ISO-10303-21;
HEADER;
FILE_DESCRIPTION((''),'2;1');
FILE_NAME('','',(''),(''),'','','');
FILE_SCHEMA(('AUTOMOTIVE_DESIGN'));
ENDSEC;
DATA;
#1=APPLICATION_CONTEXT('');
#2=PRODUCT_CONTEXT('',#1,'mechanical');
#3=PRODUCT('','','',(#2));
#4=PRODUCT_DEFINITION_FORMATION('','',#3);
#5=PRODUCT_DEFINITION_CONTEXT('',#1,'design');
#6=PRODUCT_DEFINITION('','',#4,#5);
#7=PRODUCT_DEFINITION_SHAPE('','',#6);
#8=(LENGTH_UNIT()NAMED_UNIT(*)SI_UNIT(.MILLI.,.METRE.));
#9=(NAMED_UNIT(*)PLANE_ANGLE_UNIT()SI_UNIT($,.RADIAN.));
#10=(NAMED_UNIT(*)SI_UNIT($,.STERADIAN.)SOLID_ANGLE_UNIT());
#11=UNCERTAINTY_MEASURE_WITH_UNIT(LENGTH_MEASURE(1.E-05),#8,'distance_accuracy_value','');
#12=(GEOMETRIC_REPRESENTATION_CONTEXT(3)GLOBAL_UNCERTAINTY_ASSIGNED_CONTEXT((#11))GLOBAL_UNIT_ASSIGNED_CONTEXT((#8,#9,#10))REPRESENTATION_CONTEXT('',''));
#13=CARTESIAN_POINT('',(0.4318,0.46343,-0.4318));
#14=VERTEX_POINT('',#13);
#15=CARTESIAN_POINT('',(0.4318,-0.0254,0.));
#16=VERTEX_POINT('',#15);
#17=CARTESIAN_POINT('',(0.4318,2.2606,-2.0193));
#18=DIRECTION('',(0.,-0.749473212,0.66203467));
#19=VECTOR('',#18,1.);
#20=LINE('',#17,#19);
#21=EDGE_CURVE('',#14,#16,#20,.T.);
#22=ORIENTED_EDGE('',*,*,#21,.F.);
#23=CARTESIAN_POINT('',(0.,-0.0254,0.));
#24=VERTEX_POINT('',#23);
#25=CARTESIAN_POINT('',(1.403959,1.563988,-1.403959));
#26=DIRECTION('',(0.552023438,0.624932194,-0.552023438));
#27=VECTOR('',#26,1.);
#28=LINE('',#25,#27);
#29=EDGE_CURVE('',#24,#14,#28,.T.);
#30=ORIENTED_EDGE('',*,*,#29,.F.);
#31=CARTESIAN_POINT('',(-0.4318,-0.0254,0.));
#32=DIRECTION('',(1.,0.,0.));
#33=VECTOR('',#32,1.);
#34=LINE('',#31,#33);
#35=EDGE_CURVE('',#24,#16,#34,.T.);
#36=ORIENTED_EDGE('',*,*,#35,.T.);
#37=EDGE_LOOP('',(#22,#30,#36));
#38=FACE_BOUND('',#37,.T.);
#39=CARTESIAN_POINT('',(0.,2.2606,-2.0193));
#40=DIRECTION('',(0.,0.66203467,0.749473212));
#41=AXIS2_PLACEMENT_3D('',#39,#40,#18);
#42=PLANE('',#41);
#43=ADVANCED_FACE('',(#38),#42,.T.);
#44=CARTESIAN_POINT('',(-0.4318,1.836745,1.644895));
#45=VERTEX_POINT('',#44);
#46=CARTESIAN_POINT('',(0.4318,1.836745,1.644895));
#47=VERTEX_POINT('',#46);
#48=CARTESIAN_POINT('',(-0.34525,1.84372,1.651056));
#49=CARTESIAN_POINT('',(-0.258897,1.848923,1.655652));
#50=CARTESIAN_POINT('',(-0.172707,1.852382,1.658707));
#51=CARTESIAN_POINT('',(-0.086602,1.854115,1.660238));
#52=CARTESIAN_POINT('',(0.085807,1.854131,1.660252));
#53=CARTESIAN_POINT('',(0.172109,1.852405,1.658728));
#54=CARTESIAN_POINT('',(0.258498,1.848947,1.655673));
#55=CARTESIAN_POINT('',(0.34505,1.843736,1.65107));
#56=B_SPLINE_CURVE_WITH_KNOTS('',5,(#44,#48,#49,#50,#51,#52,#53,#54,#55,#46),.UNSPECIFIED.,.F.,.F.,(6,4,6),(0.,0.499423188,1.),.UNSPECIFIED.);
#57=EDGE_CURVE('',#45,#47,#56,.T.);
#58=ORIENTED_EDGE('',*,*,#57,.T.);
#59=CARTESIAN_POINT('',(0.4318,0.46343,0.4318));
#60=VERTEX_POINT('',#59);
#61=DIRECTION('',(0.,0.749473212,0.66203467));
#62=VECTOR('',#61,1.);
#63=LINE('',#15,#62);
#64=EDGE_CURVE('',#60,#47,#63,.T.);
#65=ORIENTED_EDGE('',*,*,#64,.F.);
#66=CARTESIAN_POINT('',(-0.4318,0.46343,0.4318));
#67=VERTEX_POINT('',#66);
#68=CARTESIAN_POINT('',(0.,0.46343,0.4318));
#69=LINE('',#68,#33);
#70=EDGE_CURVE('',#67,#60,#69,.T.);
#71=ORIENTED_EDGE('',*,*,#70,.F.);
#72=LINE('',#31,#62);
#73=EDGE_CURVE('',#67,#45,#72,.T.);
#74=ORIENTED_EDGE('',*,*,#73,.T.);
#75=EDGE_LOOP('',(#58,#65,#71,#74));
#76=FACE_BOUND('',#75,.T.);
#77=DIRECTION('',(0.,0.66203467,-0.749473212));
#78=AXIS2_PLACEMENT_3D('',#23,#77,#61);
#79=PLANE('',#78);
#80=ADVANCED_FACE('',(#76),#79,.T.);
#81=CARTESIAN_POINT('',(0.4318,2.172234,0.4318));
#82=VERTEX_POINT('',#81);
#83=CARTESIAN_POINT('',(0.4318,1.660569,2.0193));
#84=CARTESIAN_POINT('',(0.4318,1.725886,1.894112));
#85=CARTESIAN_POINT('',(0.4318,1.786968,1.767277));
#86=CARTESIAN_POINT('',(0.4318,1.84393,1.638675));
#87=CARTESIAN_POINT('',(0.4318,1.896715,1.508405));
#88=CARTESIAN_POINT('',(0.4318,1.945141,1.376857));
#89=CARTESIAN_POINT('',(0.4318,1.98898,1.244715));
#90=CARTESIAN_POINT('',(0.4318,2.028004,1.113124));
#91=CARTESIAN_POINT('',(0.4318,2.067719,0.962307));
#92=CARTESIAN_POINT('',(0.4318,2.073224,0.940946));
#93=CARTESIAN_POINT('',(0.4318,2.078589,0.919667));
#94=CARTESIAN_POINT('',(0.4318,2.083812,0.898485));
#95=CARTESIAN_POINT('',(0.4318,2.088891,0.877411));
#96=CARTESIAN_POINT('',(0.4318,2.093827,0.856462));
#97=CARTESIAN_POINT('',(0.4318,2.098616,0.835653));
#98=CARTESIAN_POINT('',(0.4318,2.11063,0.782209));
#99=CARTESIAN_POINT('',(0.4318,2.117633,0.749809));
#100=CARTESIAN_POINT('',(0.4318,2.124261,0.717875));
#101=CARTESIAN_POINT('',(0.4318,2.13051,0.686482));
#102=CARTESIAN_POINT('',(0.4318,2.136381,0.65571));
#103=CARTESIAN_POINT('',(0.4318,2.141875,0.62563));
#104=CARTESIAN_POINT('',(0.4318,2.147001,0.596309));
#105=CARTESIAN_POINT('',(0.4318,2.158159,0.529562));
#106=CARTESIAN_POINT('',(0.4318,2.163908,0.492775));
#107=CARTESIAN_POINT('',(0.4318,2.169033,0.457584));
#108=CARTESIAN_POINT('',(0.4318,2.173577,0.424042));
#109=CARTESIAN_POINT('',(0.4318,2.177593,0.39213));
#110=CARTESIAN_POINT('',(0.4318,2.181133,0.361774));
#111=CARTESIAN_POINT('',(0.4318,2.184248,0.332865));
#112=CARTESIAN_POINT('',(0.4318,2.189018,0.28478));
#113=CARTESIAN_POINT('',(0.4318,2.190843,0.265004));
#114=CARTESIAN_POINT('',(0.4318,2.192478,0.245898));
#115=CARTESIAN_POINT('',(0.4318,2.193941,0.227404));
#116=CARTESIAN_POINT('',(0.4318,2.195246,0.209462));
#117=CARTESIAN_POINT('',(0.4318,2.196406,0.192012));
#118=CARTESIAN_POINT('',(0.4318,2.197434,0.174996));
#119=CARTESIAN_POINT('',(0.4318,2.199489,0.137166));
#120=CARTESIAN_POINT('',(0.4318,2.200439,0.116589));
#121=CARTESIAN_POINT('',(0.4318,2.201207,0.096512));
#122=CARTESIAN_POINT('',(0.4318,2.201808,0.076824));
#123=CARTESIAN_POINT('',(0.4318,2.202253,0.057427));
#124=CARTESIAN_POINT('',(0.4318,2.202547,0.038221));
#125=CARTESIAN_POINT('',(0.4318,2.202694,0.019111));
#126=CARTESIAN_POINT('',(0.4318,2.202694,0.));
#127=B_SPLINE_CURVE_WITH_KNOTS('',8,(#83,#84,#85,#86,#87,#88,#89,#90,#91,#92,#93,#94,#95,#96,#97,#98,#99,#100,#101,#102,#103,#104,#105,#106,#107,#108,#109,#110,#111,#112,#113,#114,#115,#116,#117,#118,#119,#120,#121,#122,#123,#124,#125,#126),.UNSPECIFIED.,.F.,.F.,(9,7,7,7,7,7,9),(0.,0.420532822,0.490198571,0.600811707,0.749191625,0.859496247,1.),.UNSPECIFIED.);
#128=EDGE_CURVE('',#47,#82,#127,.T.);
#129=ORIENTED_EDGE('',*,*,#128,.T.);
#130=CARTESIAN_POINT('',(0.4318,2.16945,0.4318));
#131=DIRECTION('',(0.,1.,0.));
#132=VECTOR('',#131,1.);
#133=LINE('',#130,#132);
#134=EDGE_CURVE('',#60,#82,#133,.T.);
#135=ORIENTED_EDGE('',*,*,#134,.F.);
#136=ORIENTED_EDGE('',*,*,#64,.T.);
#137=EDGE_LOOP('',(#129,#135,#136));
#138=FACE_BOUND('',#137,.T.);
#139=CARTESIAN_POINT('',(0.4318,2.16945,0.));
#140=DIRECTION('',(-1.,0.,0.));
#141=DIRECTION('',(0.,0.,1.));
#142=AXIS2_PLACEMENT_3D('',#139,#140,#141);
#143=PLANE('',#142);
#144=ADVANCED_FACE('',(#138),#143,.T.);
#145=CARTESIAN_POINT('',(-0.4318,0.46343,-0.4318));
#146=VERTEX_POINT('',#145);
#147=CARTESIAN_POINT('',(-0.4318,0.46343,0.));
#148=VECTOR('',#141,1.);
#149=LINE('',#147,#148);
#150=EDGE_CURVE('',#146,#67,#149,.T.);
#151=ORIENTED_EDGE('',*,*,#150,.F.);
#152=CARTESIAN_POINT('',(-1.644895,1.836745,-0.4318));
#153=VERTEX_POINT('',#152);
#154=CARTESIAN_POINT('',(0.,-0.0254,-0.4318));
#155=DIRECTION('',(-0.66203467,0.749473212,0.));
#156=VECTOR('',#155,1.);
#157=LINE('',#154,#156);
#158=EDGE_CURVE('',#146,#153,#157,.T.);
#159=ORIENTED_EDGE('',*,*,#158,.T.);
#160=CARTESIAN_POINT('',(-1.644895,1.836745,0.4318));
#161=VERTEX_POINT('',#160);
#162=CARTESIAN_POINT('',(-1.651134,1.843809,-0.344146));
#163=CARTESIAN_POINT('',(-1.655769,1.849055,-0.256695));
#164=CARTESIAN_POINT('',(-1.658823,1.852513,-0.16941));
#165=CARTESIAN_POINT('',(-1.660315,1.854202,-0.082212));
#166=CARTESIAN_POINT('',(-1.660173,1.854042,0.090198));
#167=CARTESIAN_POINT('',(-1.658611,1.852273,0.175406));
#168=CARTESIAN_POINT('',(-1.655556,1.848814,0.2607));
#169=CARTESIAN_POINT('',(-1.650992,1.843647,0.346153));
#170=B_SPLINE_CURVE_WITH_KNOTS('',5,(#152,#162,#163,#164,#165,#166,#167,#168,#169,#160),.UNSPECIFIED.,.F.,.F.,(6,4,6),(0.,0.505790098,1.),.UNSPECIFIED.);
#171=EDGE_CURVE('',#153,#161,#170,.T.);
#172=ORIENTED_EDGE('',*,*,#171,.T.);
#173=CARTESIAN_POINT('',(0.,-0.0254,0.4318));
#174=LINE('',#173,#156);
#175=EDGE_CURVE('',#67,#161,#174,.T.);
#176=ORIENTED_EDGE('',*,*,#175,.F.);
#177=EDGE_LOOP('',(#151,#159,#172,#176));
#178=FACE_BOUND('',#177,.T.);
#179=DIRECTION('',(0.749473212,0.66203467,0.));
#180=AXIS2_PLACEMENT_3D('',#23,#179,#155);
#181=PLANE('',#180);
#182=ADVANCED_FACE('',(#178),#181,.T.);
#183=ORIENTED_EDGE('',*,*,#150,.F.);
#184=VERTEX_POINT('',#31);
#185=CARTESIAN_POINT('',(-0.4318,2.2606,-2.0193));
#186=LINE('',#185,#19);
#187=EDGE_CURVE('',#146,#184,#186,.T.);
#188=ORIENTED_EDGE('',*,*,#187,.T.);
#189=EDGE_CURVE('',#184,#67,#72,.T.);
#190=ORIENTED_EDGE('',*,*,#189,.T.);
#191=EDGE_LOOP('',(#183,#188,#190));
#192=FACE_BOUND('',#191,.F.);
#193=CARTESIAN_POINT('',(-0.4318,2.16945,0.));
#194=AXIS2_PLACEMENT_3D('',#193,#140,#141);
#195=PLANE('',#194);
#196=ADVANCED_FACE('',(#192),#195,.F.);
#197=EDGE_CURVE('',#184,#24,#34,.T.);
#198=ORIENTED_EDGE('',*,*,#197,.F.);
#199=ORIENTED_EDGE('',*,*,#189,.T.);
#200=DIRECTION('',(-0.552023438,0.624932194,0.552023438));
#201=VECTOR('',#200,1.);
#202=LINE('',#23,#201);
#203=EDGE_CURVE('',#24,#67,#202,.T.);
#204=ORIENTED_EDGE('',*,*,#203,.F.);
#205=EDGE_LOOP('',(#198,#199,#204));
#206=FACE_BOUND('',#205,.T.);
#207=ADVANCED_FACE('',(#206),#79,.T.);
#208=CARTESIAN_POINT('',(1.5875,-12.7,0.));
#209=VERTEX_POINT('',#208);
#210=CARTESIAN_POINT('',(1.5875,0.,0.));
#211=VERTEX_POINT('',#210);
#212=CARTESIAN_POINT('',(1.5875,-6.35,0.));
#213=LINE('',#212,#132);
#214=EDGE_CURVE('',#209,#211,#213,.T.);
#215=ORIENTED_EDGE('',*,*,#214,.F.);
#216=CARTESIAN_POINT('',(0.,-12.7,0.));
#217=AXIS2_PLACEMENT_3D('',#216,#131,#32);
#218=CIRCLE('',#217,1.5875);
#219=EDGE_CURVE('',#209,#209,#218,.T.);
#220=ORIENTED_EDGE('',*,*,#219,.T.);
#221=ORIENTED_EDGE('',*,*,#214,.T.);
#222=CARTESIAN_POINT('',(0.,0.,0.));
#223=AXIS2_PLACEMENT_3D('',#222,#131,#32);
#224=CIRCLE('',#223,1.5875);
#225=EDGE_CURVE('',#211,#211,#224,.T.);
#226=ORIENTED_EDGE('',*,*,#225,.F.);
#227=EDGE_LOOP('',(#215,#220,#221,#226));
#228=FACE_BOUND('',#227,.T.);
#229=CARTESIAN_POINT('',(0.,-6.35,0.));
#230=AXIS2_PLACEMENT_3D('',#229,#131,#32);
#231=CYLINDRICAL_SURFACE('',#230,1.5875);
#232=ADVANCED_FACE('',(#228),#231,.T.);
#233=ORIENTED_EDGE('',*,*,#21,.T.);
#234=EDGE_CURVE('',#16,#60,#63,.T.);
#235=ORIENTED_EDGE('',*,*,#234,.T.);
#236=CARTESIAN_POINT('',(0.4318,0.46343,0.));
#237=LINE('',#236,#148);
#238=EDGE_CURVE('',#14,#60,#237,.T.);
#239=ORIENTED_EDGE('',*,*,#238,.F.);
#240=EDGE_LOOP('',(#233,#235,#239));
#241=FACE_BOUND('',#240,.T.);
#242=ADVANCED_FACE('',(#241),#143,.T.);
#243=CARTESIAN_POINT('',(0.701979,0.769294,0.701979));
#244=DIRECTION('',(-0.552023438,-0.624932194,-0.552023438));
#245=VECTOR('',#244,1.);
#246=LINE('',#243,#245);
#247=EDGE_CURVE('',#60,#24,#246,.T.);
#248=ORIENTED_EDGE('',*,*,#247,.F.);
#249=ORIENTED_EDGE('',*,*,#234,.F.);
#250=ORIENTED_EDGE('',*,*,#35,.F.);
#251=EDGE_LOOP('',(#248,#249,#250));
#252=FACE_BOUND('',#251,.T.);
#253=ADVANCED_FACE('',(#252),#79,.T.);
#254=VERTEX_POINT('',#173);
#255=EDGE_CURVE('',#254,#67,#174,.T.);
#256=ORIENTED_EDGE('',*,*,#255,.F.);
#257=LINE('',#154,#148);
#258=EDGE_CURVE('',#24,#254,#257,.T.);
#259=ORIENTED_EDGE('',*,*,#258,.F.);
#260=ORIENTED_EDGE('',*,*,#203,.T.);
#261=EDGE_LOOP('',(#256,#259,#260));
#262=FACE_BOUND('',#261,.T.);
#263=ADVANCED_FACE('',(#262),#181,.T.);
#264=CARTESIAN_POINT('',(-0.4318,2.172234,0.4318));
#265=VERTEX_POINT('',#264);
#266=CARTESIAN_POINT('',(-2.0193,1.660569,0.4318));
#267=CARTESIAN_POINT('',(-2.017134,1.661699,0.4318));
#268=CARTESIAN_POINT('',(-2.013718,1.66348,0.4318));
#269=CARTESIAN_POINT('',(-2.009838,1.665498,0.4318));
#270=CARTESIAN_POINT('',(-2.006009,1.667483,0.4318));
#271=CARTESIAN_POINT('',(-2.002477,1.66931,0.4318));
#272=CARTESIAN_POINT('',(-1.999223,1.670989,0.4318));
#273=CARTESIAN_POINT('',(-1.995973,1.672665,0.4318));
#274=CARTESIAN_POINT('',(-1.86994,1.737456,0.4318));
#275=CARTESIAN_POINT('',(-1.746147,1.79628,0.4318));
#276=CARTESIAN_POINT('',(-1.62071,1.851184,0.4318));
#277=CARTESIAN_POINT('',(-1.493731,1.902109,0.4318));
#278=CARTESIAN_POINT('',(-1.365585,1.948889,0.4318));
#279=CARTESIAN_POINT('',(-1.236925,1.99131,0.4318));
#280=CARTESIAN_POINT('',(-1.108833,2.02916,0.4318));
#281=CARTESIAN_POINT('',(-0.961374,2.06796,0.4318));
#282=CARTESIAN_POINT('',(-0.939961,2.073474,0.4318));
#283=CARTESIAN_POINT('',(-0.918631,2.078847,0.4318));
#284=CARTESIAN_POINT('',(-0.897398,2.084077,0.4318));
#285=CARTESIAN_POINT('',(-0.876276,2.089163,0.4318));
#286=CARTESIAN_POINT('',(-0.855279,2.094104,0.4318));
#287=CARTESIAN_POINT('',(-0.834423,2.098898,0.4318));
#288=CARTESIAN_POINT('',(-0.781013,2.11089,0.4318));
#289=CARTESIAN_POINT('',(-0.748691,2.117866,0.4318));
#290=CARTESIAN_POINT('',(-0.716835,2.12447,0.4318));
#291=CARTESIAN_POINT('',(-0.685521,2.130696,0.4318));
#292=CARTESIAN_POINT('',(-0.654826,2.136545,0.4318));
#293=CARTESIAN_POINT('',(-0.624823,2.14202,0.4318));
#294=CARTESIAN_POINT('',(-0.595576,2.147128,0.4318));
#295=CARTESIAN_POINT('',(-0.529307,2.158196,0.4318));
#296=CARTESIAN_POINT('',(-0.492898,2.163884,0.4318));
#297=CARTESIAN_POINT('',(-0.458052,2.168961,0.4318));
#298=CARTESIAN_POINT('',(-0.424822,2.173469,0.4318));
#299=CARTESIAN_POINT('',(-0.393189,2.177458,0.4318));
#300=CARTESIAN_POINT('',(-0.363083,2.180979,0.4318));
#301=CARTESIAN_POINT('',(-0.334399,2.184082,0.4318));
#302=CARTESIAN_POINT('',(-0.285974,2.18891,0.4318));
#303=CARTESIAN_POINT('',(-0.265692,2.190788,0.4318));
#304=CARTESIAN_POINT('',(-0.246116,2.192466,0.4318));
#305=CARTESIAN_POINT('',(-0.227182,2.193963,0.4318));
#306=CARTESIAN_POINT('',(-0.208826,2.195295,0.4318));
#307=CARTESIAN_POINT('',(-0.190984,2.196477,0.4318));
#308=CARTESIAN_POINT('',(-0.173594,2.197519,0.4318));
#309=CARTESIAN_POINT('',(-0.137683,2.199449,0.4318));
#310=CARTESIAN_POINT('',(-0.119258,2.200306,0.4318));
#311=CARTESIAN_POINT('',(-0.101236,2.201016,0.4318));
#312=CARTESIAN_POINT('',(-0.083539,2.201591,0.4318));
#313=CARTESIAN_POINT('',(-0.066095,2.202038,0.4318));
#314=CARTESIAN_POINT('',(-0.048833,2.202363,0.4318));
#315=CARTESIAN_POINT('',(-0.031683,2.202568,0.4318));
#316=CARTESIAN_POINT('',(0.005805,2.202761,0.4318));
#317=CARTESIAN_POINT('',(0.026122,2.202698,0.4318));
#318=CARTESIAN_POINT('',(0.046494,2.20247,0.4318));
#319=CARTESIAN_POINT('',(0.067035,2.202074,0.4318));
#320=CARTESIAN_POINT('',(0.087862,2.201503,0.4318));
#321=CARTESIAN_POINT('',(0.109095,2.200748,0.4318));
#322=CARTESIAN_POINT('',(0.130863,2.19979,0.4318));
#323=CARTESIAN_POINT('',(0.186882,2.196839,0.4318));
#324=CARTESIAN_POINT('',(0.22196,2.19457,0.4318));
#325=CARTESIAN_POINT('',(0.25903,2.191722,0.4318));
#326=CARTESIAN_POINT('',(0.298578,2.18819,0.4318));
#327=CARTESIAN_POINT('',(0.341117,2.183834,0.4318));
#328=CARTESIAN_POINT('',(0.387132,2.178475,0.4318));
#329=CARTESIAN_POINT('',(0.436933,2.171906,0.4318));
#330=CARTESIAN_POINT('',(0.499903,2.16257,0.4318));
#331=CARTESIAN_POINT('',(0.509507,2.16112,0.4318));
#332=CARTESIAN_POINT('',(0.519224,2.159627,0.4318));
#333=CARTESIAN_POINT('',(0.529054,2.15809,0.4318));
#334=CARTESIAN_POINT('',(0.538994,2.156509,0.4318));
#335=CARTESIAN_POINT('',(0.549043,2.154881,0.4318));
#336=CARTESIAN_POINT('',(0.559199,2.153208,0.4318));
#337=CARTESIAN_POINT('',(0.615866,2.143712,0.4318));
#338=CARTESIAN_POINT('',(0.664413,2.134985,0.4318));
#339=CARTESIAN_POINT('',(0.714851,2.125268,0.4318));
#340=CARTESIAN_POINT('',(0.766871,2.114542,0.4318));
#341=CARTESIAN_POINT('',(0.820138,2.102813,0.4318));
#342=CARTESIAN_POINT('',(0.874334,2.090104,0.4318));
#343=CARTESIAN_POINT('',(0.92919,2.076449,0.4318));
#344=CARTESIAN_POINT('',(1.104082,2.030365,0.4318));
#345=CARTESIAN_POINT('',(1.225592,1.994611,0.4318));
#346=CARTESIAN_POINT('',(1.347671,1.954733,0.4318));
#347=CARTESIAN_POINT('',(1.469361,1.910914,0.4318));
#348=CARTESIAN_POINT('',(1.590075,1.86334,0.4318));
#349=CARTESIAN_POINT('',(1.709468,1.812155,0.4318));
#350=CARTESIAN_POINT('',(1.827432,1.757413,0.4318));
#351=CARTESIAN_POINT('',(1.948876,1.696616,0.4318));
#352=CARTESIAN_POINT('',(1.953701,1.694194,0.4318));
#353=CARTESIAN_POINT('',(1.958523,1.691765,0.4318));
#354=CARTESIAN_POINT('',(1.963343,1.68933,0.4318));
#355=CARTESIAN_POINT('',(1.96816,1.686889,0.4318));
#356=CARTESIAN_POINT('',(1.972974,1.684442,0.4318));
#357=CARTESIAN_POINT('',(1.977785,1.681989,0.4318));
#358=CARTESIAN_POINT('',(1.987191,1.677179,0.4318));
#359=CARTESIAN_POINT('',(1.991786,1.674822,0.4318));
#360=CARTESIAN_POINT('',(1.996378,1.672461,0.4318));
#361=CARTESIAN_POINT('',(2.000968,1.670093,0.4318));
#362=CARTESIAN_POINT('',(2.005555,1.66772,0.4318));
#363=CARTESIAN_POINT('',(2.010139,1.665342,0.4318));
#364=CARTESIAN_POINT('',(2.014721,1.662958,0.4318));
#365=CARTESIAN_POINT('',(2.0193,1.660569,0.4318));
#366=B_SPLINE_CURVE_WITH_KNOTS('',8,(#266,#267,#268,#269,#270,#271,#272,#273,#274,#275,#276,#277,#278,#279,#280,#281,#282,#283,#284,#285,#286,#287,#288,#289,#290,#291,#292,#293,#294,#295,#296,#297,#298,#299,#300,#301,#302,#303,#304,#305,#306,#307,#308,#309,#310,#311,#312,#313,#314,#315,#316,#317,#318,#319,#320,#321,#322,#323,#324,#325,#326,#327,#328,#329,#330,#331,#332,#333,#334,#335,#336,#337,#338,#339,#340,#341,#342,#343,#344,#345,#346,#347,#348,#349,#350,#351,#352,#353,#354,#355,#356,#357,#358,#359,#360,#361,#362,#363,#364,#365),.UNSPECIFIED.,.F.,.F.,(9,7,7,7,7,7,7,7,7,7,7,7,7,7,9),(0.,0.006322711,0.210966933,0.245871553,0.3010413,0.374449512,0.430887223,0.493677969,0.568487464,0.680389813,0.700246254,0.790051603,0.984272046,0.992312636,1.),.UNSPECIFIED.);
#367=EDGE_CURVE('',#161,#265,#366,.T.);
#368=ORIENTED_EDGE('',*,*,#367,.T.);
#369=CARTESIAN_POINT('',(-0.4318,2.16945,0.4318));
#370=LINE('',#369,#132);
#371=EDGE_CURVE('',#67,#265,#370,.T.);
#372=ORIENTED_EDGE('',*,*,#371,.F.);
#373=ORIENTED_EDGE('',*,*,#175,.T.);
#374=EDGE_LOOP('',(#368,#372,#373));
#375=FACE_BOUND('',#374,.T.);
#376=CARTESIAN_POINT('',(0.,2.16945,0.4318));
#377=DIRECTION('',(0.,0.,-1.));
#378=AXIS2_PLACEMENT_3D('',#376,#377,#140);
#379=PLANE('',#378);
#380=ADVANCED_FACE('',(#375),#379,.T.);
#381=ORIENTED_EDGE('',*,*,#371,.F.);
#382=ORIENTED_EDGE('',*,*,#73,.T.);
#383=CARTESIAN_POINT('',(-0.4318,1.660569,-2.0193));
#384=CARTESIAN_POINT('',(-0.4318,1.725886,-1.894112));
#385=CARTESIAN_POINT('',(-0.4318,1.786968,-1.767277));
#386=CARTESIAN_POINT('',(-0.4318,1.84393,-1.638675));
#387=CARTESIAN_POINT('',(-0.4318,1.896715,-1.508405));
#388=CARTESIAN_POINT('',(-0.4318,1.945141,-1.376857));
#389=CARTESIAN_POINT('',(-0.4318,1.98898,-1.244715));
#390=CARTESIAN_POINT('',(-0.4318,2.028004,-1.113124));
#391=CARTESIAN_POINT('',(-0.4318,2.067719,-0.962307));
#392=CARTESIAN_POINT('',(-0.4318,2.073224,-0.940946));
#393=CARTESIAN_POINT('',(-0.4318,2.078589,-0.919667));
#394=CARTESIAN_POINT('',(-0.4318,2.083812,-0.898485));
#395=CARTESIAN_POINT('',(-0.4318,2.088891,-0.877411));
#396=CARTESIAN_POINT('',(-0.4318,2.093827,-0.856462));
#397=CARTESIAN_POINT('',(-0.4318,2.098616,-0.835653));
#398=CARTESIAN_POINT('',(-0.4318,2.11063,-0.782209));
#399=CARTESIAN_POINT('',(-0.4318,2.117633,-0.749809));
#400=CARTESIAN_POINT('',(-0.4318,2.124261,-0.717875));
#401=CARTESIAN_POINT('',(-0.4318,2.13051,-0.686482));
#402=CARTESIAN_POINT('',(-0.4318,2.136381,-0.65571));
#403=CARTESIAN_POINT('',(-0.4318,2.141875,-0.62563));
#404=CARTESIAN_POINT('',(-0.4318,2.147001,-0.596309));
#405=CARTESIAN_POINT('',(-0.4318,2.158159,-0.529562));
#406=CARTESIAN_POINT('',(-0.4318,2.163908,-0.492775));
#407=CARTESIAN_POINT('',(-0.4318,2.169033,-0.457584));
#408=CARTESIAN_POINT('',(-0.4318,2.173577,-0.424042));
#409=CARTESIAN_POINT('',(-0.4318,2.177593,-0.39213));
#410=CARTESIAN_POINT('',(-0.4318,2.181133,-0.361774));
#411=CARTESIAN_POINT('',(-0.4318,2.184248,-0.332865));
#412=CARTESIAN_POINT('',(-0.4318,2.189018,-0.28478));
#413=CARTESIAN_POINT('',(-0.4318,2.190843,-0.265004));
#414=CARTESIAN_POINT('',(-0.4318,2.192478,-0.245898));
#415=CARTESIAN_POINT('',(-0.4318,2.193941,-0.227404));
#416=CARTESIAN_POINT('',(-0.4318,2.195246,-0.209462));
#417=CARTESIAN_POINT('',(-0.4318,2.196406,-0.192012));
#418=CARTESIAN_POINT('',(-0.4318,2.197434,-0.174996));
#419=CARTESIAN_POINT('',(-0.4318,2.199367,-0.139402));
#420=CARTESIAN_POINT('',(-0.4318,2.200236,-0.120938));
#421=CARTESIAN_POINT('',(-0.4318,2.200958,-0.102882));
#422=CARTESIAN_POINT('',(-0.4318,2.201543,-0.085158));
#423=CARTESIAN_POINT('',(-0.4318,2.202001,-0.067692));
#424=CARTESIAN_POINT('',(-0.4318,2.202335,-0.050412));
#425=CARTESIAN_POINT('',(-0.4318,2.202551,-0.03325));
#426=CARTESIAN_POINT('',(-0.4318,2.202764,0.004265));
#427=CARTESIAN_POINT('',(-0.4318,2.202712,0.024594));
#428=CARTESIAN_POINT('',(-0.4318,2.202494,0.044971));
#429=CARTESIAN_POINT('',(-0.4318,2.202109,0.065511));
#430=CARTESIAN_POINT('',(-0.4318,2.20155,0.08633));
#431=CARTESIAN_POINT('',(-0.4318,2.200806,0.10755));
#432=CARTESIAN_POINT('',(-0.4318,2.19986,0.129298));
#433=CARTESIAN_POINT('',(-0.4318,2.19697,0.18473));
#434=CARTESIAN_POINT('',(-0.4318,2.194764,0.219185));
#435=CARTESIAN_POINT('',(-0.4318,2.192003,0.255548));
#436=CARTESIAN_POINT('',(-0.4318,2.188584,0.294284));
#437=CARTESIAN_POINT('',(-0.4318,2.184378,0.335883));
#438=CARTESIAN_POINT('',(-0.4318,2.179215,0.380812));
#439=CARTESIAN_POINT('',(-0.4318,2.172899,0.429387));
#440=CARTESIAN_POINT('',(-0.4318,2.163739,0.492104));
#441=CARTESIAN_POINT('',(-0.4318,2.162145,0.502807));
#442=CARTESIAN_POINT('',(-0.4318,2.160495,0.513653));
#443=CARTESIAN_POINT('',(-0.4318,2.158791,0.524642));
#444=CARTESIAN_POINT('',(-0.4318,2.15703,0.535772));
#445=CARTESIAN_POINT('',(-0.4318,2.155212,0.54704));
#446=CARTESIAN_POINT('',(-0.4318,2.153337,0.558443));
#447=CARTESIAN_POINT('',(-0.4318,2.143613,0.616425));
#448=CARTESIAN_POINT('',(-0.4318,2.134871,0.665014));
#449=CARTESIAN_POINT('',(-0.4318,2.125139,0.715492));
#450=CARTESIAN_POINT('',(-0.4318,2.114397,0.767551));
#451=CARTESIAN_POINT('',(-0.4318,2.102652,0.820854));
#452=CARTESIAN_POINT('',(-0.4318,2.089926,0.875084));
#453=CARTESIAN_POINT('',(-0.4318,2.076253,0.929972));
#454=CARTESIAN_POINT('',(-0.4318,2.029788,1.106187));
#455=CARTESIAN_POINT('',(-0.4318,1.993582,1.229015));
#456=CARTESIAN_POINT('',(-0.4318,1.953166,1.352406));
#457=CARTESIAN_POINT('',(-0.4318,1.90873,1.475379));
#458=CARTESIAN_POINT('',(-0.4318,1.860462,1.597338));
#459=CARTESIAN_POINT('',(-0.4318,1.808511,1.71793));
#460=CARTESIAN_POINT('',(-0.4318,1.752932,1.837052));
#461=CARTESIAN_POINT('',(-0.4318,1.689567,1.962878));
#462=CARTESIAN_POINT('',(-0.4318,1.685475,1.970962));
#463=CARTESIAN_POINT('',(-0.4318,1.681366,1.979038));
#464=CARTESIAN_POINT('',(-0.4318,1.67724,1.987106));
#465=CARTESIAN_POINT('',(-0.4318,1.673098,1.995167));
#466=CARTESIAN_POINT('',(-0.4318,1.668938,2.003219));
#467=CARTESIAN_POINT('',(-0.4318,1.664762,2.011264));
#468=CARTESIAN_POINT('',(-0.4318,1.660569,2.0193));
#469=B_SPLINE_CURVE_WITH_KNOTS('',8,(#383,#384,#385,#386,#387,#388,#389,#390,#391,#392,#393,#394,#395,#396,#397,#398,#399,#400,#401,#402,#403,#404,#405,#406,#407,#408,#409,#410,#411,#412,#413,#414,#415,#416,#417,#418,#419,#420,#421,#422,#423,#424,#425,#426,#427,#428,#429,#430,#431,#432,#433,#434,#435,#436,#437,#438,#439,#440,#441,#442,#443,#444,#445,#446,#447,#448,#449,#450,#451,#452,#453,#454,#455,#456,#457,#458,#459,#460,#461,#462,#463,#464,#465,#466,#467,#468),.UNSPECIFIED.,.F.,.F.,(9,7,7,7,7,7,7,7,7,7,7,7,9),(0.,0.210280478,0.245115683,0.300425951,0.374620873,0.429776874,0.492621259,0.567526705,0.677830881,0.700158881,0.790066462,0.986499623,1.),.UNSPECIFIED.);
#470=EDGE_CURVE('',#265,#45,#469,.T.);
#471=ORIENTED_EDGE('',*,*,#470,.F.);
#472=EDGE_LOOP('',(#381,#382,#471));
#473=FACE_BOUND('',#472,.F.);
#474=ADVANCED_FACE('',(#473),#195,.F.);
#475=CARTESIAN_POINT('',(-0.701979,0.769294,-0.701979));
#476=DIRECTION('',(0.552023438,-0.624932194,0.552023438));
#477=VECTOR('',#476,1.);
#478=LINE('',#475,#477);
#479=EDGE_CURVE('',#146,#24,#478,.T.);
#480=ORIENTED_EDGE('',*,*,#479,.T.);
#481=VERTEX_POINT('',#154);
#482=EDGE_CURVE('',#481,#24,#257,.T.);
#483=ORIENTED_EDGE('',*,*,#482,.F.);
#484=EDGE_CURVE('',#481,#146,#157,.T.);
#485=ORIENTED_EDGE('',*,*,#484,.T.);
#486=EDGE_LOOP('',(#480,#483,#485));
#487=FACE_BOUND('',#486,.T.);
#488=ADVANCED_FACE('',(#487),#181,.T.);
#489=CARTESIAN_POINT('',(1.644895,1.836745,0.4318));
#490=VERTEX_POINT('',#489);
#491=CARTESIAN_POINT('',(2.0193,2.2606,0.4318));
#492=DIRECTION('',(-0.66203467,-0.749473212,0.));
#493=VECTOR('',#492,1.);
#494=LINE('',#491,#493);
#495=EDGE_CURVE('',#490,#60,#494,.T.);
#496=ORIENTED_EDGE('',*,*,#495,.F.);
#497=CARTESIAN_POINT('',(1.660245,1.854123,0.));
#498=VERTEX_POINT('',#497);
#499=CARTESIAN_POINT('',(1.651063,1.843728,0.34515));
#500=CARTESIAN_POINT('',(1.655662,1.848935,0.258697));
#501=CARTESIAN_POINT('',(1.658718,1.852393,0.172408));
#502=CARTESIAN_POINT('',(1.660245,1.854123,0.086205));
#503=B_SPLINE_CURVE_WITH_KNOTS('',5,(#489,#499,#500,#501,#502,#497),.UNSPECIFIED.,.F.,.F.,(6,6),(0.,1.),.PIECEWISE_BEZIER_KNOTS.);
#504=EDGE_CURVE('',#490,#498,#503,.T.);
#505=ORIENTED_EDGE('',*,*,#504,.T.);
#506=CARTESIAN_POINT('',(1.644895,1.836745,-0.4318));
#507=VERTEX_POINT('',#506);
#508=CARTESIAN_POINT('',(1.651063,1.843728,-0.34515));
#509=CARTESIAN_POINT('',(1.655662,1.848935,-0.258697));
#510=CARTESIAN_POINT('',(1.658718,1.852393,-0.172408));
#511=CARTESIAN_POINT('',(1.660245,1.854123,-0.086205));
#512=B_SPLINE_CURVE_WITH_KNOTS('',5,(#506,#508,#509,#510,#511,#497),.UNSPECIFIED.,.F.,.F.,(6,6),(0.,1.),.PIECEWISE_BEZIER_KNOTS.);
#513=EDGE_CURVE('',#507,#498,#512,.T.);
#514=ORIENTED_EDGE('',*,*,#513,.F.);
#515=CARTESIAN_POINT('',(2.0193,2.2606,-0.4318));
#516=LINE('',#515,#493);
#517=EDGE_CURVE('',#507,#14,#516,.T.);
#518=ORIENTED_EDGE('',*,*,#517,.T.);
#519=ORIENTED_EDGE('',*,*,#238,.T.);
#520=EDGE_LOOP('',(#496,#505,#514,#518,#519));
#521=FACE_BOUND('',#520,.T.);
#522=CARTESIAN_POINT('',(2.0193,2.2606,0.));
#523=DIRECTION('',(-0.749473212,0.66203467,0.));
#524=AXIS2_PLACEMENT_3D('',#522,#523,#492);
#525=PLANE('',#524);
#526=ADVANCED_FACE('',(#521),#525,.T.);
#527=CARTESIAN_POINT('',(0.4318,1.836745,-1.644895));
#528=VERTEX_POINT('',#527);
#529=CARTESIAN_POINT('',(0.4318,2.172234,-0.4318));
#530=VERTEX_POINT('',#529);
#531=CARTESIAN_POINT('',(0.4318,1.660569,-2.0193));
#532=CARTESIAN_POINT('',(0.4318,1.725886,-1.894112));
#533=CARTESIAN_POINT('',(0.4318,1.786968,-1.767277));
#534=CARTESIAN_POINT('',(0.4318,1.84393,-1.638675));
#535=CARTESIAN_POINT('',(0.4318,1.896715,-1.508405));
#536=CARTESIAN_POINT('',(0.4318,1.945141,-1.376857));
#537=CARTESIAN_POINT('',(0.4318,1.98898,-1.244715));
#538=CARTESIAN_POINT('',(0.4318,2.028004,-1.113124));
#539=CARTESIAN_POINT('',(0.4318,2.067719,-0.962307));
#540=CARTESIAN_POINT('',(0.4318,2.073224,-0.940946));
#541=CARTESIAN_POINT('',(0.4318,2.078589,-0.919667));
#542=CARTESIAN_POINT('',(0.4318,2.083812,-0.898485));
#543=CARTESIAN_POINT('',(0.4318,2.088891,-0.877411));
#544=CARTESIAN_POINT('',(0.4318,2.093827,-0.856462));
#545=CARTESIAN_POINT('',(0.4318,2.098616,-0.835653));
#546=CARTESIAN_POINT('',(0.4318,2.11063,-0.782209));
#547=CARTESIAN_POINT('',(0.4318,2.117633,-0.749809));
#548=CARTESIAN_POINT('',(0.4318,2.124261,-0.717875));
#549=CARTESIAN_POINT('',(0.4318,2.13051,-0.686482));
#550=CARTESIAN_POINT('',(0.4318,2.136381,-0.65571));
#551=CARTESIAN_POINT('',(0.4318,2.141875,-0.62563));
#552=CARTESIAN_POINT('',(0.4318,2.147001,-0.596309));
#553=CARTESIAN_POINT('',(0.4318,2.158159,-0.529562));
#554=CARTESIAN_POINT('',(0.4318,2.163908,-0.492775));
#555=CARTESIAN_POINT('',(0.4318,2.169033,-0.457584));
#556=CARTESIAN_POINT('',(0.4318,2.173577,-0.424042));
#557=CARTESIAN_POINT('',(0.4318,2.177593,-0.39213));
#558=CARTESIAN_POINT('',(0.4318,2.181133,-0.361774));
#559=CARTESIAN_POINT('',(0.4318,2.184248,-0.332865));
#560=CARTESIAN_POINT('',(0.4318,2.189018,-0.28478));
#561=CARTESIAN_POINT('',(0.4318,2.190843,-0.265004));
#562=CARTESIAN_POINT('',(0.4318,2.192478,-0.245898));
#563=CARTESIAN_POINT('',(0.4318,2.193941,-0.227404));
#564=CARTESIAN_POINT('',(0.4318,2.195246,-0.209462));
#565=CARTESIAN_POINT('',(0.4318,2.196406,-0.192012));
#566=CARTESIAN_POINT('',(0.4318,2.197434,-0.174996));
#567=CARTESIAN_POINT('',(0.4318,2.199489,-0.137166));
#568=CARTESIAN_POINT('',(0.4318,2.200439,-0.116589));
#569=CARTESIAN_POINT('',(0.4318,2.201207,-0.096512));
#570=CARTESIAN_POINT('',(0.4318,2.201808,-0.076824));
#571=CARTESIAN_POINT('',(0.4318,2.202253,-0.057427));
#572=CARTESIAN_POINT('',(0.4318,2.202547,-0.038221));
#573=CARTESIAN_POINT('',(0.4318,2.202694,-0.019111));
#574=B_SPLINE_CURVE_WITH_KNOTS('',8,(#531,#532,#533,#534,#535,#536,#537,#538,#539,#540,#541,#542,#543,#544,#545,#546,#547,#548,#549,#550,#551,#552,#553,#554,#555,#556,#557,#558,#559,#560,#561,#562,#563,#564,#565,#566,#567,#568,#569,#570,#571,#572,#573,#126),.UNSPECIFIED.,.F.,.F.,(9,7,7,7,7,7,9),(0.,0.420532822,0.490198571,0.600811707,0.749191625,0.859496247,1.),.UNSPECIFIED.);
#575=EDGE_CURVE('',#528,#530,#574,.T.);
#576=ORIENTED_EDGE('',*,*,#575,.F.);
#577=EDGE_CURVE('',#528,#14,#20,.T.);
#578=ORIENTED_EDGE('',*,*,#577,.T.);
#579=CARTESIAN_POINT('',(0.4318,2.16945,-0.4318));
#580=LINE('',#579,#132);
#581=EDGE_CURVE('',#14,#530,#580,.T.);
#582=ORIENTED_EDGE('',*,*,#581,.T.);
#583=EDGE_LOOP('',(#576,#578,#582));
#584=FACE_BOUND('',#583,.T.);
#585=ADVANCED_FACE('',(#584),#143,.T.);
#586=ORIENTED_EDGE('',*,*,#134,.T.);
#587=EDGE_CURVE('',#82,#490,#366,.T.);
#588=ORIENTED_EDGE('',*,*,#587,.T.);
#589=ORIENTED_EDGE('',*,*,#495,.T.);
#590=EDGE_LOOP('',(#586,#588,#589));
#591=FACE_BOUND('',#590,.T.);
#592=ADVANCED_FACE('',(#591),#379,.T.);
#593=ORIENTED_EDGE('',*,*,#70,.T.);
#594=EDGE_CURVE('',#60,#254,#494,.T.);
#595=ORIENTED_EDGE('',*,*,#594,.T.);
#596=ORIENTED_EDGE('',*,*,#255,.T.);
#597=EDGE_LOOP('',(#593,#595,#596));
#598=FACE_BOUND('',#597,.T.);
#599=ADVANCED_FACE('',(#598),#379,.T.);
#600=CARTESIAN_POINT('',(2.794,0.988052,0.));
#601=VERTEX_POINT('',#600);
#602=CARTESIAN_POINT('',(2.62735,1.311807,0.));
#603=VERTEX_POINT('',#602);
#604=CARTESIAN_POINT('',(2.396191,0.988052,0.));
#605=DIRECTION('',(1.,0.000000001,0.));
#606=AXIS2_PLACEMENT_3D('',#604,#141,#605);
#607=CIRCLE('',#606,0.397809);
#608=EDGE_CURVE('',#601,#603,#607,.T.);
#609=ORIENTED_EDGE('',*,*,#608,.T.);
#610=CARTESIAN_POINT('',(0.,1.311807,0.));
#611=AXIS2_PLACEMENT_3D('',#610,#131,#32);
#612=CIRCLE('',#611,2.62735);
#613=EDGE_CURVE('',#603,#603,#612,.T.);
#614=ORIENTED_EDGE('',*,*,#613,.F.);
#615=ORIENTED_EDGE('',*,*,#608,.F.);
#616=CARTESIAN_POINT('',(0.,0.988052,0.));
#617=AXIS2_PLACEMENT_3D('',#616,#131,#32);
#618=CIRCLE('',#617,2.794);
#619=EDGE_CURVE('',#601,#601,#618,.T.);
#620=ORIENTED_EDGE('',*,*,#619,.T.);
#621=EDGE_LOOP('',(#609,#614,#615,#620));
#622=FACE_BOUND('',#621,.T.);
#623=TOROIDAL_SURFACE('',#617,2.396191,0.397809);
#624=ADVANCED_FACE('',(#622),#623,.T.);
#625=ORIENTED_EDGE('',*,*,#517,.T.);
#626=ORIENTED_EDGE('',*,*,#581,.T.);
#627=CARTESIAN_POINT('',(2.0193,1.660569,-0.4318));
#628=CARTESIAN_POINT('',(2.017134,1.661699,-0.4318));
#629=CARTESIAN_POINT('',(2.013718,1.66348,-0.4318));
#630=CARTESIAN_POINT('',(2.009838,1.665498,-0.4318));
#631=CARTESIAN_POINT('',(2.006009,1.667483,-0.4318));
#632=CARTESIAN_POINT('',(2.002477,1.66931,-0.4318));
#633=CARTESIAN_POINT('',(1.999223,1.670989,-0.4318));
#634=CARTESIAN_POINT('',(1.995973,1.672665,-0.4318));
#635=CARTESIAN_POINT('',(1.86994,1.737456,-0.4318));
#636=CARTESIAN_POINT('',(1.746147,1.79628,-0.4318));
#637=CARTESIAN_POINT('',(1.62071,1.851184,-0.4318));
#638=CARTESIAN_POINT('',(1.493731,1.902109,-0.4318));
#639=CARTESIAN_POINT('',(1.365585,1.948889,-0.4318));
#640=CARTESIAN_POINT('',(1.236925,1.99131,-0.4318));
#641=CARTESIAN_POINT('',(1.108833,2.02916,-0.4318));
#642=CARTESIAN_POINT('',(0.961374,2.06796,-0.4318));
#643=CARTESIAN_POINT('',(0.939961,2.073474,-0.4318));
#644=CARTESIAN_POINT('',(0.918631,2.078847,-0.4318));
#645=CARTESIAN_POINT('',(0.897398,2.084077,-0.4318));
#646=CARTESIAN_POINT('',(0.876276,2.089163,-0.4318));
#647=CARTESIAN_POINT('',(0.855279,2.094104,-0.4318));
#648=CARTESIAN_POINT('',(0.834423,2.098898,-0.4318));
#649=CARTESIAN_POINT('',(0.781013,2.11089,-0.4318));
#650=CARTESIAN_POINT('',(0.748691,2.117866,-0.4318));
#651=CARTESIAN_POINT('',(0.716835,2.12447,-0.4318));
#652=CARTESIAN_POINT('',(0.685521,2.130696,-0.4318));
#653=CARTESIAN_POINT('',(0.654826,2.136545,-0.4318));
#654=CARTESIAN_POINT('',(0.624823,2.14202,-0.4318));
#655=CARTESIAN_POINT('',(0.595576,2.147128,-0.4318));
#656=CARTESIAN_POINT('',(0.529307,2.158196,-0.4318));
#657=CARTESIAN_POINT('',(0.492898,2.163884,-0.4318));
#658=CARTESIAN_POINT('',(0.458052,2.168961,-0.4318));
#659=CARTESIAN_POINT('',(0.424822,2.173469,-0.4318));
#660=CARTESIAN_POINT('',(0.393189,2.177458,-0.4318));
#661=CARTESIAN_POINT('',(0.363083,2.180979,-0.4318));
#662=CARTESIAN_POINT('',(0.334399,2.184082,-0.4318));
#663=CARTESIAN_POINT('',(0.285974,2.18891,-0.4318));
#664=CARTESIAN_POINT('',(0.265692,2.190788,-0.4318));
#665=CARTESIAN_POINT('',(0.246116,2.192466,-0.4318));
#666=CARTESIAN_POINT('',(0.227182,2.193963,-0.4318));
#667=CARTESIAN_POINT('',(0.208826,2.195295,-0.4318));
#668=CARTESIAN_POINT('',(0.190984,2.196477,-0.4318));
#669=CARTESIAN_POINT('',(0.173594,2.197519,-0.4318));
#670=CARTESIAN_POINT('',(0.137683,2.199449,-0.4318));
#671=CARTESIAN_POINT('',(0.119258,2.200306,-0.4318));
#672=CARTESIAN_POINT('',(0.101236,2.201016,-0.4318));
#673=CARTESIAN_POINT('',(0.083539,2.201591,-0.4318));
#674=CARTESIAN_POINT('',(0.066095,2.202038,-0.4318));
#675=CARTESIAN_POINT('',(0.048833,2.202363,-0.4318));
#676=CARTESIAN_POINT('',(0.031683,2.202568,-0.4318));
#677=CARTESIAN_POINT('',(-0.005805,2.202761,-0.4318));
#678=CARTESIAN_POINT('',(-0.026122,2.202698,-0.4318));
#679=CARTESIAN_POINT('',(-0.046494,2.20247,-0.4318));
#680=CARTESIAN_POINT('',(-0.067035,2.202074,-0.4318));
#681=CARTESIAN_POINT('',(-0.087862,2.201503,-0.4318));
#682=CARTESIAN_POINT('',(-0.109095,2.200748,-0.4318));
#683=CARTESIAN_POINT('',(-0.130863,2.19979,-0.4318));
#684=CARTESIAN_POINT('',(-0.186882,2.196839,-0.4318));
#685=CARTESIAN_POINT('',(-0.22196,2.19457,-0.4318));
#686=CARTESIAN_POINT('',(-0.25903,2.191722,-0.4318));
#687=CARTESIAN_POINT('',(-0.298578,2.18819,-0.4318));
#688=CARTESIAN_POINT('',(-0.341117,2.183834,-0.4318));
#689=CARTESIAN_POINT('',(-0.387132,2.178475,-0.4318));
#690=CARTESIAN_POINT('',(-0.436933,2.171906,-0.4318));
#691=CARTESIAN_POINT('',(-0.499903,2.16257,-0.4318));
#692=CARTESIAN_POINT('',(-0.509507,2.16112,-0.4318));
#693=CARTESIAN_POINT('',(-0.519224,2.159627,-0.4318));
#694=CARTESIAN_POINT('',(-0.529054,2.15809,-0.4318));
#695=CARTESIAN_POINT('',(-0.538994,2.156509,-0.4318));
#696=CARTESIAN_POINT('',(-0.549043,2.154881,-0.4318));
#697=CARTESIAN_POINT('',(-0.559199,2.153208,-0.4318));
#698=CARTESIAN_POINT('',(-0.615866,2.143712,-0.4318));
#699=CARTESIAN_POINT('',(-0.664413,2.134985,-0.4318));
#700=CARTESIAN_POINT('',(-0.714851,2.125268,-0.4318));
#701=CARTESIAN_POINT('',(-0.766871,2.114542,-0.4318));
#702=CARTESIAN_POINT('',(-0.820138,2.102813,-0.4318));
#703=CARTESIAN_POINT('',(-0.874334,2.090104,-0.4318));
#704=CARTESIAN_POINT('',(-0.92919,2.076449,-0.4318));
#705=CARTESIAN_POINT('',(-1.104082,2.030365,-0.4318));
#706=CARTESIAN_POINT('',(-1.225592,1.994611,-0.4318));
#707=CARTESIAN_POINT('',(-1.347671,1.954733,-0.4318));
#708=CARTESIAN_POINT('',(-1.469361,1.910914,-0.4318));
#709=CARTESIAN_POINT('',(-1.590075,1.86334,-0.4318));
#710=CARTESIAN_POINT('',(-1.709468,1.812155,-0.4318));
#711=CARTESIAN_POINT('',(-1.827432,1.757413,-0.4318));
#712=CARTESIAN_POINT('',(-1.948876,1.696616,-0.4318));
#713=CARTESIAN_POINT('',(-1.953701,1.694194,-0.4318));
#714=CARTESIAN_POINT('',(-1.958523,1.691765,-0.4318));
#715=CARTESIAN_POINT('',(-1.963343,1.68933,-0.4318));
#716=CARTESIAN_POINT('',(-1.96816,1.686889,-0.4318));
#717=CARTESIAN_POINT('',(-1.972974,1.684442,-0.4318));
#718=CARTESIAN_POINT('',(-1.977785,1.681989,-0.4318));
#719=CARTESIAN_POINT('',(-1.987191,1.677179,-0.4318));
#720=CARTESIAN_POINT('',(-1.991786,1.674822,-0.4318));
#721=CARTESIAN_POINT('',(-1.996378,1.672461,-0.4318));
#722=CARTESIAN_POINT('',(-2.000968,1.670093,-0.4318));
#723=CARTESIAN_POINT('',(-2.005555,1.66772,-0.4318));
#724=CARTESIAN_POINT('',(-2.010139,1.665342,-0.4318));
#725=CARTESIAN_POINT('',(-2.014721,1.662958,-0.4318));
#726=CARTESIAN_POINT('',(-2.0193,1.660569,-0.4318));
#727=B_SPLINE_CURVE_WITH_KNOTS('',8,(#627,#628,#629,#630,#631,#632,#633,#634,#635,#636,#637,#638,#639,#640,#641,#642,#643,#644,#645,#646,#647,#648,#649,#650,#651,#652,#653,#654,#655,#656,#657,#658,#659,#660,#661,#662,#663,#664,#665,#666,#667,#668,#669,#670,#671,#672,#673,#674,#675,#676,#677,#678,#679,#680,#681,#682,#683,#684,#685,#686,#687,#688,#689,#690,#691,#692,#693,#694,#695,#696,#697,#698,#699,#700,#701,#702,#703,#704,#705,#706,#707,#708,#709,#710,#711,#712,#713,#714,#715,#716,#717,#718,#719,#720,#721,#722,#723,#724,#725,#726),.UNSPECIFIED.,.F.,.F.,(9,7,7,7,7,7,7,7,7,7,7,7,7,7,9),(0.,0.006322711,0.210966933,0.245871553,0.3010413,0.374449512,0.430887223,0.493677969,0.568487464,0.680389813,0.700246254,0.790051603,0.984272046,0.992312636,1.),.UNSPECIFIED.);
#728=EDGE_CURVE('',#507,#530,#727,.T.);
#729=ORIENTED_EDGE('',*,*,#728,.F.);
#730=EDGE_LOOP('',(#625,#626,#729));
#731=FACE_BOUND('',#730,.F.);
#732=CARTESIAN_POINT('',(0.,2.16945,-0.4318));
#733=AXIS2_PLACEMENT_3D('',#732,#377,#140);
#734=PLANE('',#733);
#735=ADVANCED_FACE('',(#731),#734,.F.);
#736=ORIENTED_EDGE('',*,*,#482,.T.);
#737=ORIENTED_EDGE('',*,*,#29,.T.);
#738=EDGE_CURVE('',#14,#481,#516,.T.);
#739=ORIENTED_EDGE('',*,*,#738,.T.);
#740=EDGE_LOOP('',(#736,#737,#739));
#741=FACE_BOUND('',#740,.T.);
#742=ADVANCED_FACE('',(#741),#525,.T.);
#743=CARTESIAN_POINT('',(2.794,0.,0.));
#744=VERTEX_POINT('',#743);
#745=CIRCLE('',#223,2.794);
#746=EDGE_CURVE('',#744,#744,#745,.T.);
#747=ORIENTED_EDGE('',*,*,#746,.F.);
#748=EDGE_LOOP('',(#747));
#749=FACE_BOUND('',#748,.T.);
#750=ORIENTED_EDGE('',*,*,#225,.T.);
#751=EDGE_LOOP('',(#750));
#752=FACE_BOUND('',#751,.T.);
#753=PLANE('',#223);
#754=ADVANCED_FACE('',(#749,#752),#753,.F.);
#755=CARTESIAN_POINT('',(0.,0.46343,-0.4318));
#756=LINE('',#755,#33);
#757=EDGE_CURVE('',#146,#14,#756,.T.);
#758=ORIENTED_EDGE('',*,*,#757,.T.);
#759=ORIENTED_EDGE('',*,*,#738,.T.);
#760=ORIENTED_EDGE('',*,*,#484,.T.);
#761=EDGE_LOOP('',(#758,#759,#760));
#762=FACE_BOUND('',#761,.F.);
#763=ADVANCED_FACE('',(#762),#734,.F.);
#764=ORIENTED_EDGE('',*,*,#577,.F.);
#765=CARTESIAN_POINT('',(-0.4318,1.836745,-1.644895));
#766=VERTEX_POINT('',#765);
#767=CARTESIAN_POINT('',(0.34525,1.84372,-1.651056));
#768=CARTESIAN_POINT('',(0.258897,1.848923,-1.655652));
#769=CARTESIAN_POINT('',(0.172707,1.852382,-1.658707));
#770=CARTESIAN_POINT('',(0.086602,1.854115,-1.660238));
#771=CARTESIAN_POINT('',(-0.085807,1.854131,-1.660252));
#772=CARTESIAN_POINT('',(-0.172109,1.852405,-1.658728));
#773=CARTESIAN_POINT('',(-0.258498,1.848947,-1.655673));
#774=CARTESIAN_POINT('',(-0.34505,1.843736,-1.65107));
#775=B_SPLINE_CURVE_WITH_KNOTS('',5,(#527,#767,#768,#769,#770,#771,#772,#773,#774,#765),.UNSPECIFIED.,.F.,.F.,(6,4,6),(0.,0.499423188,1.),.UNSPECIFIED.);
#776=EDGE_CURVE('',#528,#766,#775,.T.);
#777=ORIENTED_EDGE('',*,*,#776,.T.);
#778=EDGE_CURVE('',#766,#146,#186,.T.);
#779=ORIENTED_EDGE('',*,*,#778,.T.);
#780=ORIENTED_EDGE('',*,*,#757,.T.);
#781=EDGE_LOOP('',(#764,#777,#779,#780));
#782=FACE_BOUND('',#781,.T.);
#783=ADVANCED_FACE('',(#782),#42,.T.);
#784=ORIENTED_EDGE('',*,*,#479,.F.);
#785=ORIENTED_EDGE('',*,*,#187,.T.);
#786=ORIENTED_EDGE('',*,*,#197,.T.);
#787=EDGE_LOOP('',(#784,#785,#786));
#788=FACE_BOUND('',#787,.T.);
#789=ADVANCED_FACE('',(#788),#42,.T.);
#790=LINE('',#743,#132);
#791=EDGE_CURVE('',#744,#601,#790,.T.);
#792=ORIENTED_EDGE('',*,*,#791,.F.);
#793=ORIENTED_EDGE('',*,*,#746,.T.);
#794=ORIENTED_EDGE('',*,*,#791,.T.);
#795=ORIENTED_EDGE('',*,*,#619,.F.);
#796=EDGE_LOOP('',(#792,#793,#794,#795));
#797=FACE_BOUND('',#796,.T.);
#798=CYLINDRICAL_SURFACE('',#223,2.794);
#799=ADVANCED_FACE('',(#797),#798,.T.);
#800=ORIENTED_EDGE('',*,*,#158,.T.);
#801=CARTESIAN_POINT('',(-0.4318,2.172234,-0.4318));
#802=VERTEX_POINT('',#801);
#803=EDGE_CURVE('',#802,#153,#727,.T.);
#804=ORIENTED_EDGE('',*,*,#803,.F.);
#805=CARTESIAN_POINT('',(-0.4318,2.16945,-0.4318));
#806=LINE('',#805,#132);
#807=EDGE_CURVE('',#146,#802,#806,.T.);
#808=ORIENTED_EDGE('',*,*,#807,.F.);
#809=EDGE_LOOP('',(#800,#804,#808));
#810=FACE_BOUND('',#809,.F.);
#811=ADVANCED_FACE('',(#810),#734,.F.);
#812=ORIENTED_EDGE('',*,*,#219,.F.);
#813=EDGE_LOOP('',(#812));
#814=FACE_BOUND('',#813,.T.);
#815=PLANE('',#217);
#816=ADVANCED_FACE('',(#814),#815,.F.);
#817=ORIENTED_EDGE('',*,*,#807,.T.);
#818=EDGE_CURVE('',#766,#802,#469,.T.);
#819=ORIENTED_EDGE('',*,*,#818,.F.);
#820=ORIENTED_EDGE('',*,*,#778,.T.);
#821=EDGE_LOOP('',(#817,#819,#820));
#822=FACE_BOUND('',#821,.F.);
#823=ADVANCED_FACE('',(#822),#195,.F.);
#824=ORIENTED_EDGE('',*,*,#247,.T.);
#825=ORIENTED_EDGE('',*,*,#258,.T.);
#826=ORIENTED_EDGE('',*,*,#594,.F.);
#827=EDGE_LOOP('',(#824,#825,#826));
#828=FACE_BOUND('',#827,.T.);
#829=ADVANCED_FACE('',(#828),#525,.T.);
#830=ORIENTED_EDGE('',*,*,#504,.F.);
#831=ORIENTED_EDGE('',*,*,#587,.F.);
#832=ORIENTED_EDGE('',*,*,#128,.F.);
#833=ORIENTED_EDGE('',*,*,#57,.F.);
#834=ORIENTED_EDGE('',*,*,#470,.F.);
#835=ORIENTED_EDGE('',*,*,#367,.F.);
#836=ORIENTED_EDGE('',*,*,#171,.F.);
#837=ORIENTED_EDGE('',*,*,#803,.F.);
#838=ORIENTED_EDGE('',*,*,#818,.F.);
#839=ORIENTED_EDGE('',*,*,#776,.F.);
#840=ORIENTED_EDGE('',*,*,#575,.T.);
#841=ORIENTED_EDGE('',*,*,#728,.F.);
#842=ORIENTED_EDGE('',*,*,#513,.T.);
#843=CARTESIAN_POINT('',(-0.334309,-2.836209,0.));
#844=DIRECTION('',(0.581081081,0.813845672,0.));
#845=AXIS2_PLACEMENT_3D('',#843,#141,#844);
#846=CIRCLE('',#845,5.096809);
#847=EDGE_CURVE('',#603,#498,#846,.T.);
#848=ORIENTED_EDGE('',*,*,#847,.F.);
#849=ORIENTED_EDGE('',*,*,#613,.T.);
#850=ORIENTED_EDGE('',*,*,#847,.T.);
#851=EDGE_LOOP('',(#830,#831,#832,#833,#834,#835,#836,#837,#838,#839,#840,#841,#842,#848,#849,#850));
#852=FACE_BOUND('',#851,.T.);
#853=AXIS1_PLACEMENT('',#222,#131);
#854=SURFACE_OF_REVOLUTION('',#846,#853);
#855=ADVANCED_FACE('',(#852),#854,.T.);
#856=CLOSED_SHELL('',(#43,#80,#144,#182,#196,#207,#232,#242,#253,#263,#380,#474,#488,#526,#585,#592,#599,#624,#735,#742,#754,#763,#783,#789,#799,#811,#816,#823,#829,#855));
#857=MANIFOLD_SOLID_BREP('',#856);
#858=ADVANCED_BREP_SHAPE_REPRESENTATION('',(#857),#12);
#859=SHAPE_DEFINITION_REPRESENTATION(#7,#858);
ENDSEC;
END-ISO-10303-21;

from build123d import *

# Parameters (mm, degrees)
SKETCH2_W          = 1.5875
SKETCH2_H          = 12.7
CUT_EXTRUDE1_DEPTH = 0.4318
CUT_EXTRUDE2_DEPTH = 0.4318


with BuildPart() as part:
    # Sketch1 → Base-Revolve (revolve)
    with BuildSketch(Plane.XY):
        with BuildLine():
            Line((0, 0), (2.794, 0))
            Line((2.794, 0), (2.794, 0.988051987))
            ThreePointArc((2.794, 0.988051987), (2.749892337, 1.170116122), (2.627350358, 1.311806977))
            ThreePointArc((2.627350358, 1.311806977), (1.379087386, 1.963971758), (0, 2.249624225))
            Line((0, 2.249624225), (0, 0))
        make_face()
    revolve(axis=Axis((0, 0, 0), (0, 1, 0)))

    # Sketch2 → Boss-Revolve1 (revolve)
    with BuildSketch(Plane.XY):
        with Locations((0.79375, -6.35)):
            Rectangle(SKETCH2_W, SKETCH2_H)
    revolve(axis=Axis((0, 0, 0), (0, 1, 0)))

    # Sketch3 → Cut-Extrude1 (cut, symmetric)
    with BuildSketch(Plane.XY):
        Polygon((-2.0193, 3.3909), (2.0193, 3.3909), (2.0193, 2.2606), (0, -0.0254), (-2.0193, 2.2606), align=None)
    extrude(amount=CUT_EXTRUDE1_DEPTH, both=True, mode=Mode.SUBTRACT)

    # Sketch4 → Cut-Extrude2 (cut, symmetric)
    with BuildSketch(Plane(origin=(0, 0, 0), x_dir=(0, 0, -1), z_dir=(1, 0, 0))):
        Polygon((-2.0193, 3.3909), (2.0193, 3.3909), (2.0193, 2.2606), (0, -0.0254), (-2.0193, 2.2606), align=None)
    extrude(amount=CUT_EXTRUDE2_DEPTH, both=True, mode=Mode.SUBTRACT)


solid = part.part
